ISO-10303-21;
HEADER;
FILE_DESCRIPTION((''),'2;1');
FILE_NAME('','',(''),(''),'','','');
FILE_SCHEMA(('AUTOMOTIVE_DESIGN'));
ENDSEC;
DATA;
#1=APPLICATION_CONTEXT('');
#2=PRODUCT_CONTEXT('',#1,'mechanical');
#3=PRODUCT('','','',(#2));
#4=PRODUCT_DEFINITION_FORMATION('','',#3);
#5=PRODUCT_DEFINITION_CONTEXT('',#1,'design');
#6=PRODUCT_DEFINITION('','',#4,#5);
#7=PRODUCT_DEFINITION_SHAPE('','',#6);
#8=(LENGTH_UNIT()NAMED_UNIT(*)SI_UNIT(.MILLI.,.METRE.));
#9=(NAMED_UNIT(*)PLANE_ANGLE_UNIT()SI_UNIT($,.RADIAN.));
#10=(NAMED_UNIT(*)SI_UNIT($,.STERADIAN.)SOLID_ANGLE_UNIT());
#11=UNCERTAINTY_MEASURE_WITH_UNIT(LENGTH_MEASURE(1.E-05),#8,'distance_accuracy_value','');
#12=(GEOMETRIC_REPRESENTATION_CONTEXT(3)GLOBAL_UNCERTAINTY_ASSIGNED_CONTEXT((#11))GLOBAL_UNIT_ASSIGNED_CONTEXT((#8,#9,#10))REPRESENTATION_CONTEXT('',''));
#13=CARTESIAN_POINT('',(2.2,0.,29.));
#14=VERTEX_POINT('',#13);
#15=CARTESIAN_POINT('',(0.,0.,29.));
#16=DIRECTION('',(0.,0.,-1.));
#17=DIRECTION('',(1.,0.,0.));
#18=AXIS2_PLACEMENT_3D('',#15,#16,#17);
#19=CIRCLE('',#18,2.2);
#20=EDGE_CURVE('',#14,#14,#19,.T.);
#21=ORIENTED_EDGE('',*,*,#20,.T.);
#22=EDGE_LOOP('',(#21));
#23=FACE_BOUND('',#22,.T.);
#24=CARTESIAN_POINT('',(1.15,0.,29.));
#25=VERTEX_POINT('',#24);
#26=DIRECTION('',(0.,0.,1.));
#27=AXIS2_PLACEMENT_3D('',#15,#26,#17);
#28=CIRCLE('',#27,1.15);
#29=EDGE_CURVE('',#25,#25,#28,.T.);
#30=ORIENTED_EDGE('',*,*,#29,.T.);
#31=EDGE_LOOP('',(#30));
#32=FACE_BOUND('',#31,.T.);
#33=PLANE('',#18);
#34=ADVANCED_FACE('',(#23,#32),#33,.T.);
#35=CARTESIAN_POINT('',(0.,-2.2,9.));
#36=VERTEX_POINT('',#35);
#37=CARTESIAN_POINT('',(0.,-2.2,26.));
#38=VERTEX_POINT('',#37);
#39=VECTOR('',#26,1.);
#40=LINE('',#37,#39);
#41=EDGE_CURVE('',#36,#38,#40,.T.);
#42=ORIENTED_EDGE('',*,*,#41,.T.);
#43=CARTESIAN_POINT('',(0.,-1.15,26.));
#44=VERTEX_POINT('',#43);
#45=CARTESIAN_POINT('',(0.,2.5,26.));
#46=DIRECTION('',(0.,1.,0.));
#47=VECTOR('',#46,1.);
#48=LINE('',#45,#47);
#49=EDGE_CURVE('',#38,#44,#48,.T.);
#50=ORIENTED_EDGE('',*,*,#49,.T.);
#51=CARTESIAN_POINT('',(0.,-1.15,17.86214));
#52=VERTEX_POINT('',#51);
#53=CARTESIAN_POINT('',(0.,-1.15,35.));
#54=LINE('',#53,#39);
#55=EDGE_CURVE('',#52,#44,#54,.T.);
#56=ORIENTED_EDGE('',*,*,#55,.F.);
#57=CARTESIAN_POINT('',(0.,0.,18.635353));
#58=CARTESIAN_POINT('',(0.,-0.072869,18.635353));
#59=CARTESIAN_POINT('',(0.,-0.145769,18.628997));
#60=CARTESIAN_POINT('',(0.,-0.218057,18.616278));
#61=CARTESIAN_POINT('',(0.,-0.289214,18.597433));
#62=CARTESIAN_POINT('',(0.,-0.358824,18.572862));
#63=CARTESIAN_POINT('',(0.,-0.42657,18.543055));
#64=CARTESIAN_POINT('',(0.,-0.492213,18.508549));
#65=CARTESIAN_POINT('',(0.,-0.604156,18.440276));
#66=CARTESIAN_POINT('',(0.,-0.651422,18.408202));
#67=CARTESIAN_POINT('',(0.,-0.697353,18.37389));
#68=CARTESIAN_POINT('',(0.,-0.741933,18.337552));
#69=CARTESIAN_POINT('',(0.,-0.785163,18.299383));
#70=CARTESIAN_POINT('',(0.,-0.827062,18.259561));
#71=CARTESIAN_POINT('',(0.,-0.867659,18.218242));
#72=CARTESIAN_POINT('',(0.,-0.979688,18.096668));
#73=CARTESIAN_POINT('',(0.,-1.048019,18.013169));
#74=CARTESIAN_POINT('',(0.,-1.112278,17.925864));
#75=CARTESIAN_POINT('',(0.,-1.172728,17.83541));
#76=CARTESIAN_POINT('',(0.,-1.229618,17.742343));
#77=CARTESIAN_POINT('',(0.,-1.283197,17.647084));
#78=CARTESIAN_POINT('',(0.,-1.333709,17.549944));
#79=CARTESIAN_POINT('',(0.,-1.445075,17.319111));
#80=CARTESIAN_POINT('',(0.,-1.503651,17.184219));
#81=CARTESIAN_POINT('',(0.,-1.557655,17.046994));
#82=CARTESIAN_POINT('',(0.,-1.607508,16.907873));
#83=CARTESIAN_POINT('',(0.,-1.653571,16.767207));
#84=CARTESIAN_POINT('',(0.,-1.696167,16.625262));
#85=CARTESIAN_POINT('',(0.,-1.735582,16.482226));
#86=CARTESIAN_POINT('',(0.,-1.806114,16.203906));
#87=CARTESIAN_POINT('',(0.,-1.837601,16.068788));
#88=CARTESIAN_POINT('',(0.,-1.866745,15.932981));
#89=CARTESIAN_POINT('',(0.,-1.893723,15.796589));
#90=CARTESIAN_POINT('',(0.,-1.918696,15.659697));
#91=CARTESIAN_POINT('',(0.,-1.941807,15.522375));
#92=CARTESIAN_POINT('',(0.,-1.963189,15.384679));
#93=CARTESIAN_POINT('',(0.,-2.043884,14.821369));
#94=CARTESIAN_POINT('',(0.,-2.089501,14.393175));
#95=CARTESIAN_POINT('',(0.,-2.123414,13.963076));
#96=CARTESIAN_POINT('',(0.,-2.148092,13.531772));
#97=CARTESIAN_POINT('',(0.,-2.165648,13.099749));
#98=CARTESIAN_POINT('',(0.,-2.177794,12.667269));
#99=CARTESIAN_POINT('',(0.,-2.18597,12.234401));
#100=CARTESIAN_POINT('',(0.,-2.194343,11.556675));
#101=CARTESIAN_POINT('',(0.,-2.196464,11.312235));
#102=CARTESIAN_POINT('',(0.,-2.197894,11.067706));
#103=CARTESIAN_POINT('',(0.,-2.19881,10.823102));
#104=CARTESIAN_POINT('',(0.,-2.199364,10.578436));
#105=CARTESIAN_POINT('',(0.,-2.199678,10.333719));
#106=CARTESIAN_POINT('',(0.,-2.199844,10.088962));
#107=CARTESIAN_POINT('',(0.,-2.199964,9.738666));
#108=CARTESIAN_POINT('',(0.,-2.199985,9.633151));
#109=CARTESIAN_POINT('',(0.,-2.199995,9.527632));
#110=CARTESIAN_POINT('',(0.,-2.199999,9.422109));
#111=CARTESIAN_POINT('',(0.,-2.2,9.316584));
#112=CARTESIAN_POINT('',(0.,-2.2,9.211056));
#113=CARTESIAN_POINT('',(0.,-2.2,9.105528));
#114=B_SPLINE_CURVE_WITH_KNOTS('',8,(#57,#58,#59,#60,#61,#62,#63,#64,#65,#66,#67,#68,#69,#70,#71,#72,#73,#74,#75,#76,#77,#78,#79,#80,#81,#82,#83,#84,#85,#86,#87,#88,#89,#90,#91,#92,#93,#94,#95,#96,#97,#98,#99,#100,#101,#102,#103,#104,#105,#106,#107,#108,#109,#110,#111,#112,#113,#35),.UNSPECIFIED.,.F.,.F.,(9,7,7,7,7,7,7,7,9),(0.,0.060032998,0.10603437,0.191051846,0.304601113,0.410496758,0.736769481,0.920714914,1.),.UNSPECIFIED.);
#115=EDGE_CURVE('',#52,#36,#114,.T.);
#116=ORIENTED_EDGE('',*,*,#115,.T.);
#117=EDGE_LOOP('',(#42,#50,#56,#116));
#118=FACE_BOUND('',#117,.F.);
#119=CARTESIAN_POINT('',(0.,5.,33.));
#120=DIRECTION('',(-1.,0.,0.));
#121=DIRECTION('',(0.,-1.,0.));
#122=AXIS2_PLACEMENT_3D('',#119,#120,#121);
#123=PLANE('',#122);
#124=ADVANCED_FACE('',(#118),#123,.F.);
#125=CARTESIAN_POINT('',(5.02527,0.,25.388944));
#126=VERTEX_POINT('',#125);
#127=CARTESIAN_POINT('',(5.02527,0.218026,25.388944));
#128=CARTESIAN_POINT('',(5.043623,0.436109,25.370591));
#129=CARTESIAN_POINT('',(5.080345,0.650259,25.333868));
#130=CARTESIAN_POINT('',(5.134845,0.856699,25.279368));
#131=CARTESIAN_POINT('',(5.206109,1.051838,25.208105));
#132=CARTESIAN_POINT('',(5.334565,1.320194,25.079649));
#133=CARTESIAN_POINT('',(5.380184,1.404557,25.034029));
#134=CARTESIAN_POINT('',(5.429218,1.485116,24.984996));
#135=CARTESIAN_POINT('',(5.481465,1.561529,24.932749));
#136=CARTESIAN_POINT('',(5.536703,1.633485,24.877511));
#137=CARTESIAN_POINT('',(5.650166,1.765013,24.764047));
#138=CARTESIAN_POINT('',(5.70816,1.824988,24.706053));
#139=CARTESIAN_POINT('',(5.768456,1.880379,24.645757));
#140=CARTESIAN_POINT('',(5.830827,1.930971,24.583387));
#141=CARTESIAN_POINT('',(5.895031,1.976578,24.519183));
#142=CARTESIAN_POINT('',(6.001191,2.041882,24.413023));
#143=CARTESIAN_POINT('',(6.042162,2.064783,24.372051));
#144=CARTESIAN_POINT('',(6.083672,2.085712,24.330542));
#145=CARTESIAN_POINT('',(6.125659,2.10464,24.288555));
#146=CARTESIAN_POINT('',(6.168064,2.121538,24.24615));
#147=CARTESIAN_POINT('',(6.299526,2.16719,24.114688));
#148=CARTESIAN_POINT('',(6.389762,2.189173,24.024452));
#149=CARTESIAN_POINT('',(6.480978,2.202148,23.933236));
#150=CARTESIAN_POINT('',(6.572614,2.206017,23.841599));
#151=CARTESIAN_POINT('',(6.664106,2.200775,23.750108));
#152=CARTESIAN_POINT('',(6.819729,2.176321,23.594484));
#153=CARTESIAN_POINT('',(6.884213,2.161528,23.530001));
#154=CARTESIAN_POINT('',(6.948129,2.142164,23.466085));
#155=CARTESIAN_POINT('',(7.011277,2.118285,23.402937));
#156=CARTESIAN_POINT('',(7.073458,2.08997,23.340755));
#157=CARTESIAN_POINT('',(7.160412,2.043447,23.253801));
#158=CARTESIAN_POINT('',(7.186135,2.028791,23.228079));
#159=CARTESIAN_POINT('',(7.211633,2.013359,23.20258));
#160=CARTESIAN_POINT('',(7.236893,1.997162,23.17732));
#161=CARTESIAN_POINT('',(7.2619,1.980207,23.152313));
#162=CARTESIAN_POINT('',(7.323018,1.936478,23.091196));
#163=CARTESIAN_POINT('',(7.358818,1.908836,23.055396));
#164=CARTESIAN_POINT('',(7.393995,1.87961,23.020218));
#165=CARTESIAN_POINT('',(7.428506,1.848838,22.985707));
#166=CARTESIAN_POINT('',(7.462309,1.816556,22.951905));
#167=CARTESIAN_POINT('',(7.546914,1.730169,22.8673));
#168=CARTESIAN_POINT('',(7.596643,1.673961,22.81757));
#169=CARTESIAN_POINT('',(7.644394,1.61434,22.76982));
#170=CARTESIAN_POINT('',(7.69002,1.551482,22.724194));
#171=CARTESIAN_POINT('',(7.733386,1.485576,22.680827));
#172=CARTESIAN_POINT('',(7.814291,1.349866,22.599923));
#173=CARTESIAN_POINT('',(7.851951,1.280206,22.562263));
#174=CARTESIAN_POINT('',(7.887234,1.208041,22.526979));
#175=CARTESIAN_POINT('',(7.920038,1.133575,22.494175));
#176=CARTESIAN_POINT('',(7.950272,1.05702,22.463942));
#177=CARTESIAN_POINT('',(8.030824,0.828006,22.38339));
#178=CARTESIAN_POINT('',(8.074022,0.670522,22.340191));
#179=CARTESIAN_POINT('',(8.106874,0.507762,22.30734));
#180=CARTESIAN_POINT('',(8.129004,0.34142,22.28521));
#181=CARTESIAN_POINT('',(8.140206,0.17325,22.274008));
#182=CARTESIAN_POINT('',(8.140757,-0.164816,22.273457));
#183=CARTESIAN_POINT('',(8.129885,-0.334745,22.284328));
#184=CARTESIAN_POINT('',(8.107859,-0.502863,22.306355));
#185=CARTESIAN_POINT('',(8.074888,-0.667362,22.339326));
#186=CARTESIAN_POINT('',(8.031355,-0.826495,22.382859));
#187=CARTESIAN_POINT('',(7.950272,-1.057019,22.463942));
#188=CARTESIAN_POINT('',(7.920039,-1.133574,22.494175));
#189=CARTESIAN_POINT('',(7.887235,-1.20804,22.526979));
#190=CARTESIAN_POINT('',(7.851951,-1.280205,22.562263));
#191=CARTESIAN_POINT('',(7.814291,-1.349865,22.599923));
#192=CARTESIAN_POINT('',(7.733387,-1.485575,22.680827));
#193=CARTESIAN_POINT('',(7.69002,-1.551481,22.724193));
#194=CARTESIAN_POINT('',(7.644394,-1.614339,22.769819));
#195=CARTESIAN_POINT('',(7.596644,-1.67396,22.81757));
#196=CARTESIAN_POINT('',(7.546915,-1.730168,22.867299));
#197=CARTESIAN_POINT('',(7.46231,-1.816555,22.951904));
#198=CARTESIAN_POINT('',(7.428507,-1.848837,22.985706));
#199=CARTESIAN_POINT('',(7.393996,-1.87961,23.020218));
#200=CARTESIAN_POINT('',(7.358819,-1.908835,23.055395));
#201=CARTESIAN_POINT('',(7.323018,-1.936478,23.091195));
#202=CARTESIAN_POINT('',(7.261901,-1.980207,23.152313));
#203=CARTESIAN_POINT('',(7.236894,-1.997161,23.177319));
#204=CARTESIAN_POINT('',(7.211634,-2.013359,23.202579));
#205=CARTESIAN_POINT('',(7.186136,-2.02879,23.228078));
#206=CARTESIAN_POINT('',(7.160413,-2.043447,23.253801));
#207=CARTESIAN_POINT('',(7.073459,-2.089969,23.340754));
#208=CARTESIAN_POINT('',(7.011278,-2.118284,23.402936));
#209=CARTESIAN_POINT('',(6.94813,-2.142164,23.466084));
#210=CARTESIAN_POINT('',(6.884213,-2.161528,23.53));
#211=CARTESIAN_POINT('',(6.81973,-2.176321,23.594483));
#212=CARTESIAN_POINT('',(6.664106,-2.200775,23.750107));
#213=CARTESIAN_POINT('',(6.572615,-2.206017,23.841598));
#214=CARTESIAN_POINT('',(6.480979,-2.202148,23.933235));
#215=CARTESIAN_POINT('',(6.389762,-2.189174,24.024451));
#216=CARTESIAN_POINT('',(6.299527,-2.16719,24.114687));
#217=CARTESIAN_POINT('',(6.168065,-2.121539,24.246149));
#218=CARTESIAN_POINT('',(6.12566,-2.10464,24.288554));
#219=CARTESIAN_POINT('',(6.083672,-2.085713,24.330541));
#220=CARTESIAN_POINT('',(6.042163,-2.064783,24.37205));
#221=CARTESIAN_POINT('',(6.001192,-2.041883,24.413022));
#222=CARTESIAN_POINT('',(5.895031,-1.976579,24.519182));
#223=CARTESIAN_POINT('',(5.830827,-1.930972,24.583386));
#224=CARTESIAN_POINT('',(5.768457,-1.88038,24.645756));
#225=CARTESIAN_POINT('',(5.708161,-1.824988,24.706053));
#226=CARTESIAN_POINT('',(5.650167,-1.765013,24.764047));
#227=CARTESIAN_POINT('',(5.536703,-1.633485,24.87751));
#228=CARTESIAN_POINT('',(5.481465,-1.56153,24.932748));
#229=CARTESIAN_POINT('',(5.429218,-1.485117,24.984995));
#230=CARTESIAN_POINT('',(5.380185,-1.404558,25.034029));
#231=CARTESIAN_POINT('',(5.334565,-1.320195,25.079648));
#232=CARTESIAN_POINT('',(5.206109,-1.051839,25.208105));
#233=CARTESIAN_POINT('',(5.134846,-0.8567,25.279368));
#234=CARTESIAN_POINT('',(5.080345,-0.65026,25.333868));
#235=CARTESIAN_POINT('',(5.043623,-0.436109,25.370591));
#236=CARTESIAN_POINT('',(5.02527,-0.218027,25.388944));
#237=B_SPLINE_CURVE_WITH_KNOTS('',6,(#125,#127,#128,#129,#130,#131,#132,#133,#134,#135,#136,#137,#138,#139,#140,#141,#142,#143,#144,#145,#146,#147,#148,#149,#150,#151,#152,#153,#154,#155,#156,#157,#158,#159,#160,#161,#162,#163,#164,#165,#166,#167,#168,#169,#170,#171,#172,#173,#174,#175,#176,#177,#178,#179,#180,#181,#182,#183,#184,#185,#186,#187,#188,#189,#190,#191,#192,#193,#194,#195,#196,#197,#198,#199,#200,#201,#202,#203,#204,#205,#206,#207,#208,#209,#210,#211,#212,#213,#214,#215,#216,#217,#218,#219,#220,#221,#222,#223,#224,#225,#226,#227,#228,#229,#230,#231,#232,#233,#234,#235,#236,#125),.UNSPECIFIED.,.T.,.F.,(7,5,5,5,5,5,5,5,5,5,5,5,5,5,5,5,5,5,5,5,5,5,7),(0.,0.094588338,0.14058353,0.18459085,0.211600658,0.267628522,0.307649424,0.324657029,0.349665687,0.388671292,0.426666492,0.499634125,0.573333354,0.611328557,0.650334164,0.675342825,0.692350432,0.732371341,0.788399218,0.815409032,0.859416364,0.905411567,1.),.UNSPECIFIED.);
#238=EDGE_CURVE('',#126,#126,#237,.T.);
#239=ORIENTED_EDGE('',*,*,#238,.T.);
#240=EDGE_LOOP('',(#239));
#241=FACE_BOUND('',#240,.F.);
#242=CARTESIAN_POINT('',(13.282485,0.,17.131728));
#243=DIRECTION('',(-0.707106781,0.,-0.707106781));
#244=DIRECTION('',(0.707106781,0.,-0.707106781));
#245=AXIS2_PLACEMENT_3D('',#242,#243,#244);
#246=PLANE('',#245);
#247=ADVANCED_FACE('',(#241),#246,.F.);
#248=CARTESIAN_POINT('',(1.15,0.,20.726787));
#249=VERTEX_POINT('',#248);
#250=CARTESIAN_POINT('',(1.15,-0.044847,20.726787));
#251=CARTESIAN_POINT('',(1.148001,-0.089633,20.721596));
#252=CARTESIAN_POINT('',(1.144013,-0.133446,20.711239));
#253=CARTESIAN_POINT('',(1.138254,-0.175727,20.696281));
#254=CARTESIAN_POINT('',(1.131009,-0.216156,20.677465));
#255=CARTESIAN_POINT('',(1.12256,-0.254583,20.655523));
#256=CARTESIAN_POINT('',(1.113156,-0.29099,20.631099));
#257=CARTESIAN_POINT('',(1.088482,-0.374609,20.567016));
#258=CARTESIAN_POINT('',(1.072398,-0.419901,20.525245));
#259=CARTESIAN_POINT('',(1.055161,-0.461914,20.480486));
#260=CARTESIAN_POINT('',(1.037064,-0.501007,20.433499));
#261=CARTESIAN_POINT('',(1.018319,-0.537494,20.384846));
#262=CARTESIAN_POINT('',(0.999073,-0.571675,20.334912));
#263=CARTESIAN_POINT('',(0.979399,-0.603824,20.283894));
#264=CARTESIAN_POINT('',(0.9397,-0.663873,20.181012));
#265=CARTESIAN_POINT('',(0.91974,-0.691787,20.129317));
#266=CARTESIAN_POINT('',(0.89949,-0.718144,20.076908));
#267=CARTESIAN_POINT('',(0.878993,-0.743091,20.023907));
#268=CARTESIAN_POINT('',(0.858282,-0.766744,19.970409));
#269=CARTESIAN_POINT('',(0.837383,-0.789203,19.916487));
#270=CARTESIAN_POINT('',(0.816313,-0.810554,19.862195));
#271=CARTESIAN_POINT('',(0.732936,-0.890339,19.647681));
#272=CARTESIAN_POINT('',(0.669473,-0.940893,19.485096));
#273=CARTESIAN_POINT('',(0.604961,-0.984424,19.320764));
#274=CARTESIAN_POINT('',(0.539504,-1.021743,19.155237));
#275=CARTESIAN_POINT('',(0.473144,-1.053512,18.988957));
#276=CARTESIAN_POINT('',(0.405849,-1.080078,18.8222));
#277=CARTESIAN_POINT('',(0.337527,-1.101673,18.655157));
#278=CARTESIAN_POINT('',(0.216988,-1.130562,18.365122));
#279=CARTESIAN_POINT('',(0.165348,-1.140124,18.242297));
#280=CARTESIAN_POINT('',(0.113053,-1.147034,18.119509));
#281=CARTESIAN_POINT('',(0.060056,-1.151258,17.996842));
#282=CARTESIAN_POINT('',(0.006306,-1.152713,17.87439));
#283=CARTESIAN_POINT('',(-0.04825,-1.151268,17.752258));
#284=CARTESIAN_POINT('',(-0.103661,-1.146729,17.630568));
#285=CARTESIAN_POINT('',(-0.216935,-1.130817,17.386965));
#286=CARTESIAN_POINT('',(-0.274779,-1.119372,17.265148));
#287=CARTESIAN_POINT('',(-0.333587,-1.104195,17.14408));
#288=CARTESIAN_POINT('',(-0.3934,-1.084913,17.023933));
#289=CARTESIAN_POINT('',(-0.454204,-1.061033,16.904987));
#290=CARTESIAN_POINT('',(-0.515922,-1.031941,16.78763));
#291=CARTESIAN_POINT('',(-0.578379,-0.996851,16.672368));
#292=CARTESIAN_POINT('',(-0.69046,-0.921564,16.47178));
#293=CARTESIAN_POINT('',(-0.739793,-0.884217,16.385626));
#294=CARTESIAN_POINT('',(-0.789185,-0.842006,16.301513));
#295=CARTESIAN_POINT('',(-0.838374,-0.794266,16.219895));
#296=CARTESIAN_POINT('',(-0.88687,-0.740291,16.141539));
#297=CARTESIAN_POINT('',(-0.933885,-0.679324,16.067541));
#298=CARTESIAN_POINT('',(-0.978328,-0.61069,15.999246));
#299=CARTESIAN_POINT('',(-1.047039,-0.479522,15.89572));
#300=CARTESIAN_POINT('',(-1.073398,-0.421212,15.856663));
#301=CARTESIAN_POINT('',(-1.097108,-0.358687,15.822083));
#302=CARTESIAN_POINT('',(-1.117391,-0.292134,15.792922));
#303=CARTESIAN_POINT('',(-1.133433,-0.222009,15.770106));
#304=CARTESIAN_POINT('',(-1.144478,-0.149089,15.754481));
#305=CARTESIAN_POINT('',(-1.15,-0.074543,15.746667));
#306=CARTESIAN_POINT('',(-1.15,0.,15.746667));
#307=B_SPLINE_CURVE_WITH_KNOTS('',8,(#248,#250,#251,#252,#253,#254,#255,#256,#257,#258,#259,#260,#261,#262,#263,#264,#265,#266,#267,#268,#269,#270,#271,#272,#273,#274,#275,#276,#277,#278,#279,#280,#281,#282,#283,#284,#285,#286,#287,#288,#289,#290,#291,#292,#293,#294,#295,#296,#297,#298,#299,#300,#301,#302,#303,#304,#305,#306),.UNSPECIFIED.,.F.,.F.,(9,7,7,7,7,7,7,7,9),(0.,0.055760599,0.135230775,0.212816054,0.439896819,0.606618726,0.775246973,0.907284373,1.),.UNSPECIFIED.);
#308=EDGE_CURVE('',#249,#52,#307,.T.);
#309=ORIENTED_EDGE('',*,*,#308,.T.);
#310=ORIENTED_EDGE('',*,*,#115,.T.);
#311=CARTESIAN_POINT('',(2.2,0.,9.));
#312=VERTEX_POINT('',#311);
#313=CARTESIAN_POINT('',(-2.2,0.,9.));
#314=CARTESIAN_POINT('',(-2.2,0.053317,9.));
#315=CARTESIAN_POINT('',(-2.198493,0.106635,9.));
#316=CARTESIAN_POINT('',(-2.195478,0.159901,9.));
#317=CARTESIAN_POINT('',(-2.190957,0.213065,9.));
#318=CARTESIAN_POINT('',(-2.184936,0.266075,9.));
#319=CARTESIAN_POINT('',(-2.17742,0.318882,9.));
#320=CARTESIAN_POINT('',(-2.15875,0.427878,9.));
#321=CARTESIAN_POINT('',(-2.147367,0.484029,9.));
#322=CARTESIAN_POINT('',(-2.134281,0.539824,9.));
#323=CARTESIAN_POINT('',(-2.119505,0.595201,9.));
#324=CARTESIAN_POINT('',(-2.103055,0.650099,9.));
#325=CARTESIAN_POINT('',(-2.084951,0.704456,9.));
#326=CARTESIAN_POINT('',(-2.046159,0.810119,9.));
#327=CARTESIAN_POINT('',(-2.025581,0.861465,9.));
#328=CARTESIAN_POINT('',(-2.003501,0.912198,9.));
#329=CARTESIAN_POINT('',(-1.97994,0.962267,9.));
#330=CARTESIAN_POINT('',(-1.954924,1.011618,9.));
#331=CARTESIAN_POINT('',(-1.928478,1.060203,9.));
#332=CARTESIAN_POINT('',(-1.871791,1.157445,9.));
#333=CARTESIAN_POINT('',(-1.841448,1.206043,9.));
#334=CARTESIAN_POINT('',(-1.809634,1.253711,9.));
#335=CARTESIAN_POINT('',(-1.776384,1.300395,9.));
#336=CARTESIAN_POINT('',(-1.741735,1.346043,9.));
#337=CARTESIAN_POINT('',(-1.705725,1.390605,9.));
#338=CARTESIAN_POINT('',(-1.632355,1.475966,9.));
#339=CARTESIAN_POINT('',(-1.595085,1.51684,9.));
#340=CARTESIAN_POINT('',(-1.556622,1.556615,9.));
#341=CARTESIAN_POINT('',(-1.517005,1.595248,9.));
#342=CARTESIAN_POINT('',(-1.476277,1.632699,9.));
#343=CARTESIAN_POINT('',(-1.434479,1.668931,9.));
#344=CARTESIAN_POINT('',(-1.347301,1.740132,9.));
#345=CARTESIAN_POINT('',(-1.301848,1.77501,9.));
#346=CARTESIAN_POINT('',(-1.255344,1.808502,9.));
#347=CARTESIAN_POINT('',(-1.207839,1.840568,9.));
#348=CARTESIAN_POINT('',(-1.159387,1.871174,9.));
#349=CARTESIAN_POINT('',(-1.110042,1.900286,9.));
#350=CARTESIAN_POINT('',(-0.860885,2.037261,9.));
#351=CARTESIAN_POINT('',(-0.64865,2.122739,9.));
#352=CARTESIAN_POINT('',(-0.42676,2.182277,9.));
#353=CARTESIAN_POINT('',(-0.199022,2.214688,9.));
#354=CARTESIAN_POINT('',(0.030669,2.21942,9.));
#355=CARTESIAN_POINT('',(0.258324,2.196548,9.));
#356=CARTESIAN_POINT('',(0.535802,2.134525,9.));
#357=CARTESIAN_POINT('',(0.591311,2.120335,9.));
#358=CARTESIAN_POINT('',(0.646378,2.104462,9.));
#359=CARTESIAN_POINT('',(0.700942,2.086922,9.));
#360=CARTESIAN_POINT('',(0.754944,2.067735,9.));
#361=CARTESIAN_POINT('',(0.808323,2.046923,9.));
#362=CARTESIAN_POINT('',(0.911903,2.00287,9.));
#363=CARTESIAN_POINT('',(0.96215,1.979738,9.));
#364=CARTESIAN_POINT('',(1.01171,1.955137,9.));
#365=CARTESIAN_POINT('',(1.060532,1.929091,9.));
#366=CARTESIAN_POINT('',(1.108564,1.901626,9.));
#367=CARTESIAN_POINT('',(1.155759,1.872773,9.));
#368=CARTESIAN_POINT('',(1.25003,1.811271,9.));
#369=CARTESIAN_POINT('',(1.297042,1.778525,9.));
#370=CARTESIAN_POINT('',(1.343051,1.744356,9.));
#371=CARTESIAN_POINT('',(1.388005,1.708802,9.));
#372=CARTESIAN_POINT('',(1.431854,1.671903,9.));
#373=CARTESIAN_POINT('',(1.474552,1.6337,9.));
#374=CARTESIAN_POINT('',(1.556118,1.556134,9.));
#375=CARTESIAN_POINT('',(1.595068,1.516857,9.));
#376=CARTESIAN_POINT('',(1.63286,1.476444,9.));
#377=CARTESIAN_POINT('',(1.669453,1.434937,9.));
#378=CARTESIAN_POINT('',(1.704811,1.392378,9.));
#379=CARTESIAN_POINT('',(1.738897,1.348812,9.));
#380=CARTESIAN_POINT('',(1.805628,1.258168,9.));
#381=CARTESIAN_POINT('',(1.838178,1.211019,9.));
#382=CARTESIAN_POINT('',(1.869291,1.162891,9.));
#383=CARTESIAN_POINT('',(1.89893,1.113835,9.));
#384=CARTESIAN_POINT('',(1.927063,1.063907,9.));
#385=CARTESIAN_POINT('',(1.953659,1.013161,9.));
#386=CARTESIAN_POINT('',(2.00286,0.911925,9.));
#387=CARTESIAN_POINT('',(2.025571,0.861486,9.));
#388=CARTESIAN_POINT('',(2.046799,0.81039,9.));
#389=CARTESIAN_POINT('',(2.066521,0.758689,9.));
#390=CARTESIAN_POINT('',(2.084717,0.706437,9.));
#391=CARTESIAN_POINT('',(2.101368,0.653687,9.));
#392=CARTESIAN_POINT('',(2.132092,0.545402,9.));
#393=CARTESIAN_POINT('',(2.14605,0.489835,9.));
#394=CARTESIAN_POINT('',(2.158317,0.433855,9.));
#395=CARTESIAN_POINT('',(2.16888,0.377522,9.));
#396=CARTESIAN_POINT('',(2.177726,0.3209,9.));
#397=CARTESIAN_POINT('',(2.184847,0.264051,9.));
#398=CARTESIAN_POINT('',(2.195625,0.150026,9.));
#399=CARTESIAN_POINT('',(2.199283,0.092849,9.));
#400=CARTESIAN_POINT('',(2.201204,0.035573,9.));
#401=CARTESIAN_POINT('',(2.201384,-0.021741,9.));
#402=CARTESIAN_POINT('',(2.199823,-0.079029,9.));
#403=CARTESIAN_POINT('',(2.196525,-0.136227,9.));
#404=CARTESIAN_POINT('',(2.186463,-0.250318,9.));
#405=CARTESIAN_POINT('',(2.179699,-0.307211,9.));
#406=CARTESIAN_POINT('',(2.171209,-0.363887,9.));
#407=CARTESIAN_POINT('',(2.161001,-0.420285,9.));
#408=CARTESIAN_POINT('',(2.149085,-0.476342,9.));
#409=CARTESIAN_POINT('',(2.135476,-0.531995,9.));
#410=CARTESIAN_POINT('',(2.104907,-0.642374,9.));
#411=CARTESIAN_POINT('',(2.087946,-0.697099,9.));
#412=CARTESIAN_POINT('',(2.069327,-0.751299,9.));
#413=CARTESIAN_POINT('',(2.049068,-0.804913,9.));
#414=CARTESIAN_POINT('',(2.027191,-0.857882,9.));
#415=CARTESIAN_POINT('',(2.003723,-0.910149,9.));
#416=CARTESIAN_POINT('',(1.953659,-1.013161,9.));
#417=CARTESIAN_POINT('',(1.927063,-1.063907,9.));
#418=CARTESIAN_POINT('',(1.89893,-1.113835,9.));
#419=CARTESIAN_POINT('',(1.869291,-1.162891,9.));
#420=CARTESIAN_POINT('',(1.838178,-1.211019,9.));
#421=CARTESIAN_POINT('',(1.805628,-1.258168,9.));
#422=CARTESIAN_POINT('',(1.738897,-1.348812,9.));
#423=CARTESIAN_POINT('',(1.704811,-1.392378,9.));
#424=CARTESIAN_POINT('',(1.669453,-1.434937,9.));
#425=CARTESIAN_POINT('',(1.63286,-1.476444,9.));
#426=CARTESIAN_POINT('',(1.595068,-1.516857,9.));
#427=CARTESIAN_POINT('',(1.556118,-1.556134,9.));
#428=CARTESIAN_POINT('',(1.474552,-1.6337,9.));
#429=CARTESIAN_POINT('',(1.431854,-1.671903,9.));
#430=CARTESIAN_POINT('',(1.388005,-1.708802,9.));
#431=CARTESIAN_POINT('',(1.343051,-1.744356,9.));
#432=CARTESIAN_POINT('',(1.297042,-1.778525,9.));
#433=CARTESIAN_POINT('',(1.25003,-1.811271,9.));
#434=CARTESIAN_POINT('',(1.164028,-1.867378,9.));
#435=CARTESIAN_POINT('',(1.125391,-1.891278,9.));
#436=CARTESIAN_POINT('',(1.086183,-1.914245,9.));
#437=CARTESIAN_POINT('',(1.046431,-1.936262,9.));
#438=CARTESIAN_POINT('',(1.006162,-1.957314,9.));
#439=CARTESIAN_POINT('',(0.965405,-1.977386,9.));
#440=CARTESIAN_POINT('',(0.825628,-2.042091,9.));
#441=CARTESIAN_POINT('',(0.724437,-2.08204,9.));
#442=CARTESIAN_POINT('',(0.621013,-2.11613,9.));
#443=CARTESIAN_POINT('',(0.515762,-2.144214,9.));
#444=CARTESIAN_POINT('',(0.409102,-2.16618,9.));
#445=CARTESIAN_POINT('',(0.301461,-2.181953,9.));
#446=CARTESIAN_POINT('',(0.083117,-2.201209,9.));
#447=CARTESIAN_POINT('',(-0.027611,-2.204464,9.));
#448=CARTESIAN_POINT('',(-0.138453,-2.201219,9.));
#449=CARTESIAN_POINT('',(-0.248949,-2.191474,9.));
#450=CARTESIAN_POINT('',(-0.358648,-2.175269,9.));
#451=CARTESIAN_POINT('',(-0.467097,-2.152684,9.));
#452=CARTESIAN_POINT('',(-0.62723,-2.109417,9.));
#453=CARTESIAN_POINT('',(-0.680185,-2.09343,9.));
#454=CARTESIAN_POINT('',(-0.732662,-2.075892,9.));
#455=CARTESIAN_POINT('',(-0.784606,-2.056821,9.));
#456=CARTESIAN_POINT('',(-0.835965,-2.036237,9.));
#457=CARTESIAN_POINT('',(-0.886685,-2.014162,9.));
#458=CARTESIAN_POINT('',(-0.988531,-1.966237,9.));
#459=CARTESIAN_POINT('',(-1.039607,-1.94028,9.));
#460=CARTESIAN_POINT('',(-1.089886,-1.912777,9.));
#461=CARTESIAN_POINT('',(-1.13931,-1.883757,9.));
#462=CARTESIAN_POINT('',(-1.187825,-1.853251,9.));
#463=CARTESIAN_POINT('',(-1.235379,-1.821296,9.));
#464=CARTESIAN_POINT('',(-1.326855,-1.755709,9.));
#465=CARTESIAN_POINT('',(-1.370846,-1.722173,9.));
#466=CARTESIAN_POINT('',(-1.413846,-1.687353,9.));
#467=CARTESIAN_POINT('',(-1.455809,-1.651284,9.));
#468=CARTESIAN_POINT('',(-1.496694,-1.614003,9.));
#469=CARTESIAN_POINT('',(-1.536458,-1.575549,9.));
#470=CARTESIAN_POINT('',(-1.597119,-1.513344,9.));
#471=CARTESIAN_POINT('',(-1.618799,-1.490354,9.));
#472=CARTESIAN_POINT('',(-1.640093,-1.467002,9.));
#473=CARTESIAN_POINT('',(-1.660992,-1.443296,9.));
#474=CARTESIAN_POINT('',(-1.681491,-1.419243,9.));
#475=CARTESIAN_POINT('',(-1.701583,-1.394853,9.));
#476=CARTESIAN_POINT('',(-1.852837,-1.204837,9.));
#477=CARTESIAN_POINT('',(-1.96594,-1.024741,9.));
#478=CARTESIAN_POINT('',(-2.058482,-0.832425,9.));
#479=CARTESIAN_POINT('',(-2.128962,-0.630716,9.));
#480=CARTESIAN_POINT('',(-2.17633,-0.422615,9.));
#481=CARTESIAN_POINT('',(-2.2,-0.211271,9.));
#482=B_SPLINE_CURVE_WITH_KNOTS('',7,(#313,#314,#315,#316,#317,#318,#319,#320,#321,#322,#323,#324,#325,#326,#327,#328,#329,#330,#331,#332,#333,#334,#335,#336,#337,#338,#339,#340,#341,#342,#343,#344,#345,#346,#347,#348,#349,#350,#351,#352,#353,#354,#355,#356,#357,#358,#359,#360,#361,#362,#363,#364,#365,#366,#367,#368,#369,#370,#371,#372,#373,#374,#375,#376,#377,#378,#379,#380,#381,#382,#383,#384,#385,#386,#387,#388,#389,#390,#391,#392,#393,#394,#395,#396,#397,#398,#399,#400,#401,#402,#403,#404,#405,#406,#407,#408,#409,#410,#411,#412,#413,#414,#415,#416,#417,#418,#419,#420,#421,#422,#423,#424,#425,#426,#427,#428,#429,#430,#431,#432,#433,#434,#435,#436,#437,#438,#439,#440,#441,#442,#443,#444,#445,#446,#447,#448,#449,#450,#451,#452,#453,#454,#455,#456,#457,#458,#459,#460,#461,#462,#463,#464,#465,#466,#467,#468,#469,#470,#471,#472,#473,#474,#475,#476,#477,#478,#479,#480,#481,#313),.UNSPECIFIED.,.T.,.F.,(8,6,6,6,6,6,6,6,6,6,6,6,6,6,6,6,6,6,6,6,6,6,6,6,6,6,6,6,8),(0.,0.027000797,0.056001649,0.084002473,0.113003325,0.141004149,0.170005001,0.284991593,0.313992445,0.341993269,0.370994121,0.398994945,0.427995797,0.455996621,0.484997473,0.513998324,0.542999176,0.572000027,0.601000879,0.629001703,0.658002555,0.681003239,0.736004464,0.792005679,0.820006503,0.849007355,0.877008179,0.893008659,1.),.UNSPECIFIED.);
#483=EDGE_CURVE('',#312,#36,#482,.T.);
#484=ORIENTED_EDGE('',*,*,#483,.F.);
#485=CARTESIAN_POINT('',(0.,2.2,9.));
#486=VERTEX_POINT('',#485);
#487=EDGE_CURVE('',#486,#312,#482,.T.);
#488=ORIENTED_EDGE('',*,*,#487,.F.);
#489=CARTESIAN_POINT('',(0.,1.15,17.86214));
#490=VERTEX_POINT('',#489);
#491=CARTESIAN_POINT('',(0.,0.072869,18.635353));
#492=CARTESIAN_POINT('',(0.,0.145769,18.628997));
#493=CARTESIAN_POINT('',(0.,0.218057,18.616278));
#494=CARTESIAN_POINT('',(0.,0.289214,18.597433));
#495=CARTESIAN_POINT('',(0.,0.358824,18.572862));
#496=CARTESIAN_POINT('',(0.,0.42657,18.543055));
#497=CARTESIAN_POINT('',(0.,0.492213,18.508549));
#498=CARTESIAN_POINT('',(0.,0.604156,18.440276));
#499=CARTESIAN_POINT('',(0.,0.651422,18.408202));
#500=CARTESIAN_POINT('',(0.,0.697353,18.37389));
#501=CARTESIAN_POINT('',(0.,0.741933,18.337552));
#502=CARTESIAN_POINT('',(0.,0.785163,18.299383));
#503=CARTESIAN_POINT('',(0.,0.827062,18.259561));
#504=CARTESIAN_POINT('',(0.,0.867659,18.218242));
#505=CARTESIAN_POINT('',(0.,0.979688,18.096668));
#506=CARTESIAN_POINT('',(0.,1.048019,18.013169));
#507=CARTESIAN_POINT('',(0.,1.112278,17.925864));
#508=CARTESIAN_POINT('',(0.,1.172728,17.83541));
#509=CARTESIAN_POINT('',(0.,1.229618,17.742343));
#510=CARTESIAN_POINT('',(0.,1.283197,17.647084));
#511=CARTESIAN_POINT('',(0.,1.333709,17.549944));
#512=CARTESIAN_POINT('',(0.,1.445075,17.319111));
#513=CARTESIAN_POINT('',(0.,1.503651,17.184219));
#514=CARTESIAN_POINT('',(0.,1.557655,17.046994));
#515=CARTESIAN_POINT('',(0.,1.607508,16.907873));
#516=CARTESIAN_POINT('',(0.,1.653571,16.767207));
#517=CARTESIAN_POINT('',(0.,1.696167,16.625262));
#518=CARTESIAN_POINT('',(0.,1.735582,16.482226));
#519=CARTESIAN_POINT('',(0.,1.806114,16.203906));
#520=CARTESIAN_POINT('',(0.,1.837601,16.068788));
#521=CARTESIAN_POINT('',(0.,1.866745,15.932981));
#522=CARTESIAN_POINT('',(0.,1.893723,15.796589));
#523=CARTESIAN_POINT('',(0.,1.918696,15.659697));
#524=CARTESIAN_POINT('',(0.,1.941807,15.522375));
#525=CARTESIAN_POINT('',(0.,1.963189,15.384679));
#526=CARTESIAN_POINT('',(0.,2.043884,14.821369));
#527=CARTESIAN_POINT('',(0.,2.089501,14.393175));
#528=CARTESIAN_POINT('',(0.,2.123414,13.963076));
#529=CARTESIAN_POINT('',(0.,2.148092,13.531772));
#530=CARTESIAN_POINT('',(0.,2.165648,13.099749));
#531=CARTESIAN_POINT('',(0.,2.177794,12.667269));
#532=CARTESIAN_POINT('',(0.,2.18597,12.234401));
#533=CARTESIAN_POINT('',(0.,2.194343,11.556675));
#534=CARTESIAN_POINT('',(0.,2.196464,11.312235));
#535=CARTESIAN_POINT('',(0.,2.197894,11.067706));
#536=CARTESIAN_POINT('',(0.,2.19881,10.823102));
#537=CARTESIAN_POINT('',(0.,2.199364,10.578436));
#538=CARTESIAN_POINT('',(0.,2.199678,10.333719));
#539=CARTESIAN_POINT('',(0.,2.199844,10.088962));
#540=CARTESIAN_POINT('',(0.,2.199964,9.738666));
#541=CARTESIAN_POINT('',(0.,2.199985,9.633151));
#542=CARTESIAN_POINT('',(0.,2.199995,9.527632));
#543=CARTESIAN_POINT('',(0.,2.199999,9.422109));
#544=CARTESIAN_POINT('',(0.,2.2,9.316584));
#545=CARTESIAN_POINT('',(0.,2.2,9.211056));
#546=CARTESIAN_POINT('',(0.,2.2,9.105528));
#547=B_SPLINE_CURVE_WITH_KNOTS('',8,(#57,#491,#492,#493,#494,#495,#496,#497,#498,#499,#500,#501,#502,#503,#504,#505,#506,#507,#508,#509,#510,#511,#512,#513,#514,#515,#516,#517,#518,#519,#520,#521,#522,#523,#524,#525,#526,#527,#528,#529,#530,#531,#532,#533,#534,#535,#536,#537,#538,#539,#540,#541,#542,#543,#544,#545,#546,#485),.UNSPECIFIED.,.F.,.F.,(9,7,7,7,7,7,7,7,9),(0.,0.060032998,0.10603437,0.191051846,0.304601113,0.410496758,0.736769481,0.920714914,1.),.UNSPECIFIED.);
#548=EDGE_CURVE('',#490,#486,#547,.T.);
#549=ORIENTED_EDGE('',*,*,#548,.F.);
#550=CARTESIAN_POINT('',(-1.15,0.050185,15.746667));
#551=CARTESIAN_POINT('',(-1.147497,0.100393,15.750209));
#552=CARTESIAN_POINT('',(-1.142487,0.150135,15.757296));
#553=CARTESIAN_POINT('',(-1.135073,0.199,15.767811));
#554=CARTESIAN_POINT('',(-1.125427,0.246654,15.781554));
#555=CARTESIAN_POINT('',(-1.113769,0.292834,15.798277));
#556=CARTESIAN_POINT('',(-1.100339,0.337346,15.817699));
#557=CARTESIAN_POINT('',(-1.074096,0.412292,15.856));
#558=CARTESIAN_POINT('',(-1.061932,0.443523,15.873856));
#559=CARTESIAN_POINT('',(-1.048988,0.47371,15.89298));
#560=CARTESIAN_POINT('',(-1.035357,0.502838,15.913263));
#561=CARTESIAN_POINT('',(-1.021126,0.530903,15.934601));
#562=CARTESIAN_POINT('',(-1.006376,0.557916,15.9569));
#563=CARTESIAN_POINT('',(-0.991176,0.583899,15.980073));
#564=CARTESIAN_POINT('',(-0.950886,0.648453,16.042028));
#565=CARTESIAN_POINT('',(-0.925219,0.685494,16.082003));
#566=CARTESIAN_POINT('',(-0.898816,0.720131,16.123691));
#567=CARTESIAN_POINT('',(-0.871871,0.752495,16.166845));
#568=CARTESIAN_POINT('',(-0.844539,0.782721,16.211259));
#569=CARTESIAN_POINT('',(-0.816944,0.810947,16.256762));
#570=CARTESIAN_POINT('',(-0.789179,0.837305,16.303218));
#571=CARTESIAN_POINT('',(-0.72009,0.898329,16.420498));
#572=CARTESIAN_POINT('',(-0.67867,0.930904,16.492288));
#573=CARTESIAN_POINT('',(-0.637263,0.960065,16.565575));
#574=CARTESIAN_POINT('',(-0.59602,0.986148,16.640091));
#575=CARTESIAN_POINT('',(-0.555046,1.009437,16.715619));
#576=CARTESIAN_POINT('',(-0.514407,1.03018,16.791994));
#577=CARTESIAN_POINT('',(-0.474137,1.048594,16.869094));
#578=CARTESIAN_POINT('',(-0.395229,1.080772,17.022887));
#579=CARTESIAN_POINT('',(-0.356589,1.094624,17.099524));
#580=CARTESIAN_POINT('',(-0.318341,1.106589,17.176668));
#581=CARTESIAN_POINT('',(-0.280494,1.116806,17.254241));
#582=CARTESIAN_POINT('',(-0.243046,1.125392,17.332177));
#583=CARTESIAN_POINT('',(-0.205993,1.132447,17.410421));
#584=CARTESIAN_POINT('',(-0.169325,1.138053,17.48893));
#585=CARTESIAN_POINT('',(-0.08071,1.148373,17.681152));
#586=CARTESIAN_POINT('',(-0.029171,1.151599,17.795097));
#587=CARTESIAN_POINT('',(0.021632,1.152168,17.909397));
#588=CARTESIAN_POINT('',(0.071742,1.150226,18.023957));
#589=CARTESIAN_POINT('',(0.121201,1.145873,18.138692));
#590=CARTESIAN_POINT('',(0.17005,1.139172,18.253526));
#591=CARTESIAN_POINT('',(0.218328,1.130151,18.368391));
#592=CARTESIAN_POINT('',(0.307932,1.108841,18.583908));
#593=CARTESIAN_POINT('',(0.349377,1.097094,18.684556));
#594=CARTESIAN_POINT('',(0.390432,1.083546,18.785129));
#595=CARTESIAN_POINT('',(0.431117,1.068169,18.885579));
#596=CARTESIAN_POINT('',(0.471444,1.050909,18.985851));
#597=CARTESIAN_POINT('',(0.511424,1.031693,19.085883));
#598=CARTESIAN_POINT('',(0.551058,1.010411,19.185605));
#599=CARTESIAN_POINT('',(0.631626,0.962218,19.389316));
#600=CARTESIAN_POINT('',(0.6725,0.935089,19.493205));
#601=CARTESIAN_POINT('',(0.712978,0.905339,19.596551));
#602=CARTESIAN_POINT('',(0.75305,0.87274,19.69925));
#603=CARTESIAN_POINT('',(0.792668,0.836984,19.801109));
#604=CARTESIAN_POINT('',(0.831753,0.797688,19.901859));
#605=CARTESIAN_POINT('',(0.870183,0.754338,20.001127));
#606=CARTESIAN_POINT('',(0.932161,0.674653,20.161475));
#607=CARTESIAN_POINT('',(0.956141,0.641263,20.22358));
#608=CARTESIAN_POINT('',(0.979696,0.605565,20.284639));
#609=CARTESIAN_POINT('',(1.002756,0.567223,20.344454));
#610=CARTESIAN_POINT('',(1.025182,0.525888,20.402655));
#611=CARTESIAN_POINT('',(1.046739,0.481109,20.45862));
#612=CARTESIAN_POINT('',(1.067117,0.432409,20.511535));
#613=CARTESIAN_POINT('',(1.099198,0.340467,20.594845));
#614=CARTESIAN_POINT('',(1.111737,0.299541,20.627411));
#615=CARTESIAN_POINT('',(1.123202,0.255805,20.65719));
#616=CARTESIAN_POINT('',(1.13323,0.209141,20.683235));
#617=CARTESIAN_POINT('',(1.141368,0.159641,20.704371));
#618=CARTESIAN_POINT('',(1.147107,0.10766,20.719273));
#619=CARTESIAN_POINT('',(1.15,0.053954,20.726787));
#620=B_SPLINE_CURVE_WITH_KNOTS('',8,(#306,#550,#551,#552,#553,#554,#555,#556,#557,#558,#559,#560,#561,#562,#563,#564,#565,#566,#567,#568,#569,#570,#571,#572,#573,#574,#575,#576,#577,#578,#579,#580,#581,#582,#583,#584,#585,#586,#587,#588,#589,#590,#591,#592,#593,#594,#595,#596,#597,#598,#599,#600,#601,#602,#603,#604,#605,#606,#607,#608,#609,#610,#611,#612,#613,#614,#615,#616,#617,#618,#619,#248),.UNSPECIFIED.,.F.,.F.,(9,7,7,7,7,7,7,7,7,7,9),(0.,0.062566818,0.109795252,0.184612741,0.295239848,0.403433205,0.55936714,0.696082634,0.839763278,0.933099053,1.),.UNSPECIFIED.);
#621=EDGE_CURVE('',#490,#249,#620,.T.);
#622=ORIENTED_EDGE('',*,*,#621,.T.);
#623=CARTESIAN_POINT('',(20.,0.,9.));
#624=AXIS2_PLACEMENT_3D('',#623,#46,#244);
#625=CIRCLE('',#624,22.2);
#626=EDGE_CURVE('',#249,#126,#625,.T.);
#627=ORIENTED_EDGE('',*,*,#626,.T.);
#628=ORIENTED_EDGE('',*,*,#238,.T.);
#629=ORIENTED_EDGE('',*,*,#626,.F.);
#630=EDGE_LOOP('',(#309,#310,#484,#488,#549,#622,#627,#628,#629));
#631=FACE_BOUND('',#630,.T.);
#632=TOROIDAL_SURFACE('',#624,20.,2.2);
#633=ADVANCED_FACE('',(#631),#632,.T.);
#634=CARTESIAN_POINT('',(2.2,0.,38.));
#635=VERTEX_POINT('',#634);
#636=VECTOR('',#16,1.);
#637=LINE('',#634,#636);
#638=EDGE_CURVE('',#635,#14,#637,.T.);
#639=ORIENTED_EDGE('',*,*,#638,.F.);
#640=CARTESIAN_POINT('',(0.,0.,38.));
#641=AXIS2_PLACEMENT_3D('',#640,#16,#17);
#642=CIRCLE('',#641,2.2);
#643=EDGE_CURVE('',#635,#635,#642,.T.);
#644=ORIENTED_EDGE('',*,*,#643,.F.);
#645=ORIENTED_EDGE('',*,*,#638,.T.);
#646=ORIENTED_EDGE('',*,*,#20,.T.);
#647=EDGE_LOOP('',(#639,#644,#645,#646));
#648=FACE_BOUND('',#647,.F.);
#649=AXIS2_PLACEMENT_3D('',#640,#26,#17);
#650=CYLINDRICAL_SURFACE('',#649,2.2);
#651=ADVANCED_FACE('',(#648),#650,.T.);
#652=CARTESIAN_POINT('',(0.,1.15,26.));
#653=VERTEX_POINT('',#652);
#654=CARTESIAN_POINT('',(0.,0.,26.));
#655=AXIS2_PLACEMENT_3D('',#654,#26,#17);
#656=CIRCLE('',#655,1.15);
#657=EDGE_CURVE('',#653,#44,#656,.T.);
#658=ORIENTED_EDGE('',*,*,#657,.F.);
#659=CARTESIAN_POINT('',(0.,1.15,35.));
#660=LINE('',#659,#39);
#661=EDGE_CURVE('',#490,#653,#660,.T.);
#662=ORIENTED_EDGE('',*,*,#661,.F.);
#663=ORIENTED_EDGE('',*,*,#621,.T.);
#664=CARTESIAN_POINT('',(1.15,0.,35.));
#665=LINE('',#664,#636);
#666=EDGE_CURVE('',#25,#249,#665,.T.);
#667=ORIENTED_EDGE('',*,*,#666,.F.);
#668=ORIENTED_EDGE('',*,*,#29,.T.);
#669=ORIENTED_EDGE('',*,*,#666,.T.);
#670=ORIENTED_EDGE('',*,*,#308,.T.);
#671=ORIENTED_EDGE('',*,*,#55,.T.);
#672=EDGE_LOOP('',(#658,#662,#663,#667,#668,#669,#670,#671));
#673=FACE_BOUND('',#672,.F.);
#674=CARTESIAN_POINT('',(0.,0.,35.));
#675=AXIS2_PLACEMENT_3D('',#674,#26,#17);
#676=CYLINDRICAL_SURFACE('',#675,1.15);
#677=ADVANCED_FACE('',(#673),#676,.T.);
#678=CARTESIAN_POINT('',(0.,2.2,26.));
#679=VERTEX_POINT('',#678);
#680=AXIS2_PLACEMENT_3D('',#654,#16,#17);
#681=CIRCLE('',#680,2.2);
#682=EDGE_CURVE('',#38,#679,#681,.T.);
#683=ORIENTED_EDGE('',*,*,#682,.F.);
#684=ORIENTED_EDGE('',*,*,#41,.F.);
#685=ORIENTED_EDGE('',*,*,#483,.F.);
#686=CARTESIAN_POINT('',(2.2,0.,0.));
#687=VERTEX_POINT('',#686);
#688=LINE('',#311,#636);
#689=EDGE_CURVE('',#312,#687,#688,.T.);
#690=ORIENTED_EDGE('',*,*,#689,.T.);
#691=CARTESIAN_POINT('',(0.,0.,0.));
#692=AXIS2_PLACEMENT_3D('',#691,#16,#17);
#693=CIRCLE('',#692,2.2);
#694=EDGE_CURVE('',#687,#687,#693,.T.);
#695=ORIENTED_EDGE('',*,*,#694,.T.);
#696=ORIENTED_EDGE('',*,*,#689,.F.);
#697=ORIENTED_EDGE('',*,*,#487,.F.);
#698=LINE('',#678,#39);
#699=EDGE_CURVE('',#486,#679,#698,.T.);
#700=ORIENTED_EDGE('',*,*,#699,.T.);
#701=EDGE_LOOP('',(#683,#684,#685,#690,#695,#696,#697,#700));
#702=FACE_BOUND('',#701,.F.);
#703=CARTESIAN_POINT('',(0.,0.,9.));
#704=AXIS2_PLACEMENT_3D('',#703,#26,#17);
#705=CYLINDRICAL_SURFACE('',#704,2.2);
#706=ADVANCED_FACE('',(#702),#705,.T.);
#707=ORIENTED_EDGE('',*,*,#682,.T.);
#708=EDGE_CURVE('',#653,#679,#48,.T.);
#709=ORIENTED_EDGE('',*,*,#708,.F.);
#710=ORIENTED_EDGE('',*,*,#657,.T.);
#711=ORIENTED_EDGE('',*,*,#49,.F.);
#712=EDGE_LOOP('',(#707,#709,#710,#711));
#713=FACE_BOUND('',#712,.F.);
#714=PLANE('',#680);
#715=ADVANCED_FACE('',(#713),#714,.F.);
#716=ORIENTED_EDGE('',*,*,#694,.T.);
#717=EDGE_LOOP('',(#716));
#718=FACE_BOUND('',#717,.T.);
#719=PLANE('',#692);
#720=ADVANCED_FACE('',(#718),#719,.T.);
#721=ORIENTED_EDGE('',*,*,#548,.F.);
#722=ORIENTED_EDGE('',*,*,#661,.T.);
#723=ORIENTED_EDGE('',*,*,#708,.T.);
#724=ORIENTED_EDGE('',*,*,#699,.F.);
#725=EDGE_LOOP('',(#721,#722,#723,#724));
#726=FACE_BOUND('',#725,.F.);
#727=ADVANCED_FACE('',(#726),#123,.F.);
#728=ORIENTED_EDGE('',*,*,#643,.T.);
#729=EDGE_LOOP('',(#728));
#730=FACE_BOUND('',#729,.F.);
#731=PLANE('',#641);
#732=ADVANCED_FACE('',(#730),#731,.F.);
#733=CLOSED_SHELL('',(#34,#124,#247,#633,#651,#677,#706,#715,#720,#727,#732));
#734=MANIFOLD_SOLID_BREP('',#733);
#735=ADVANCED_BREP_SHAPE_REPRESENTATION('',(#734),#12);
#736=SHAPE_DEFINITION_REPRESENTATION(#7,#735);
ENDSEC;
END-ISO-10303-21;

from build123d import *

# Parameters (mm, degrees)
BOX001027045134_W         = 10
BOX001027045134_H         = 10
BOX001027045134_DEPTH     = 32
CYLINDER192_R             = 2.2
CYLINDER192_DEPTH         = 17
CUT158_PLACEMENT_ANGLE    = 180
BOX001027045133_W         = 10
BOX001027045133_H         = 10
BOX001027045133_DEPTH     = 32
BOX001027045132_W         = 15
BOX001027045132_H         = 10
BOX001027045132_DEPTH     = 18
BOX001027045135_W         = 25
BOX001027045135_H         = 10
BOX001027045135_DEPTH     = 25
TORUS013_R                = 2.2
TORUS013_ROLL_ANGLE       = 90
COMMON091_PITCH_ANGLE     = -45
COMMON090_PLACEMENT_ANGLE = 180
CYLINDER191_R             = 2.2
CYLINDER191_DEPTH         = 9
CYLINDER193_R             = 2.2
CYLINDER193_DEPTH         = 9
CYLINDER190_R             = 1.15
CYLINDER190_DEPTH         = 32


with BuildPart() as cube187:
    # Box001027045134 → Box001027045134 (new body)
    with BuildSketch(Plane(origin=(0, -5, -22), x_dir=(1, 0, 0), z_dir=(0, 0, 1))):
        with Locations((5, 5)):
            Rectangle(BOX001027045134_W, BOX001027045134_H)
    extrude(amount=BOX001027045134_DEPTH)


with BuildPart() as cut158:
    # Cylinder192 → Cylinder192 (new body)
    with BuildSketch(Plane.XY.offset(-15)):
        Circle(CYLINDER192_R)
    extrude(amount=CYLINDER192_DEPTH)

    # Cut158: cut Cube187
    add(cube187.part, mode=Mode.SUBTRACT)


with BuildPart() as cut158_1:
    # Cut158 placement: moved
    add(cut158.part.moved(Location((0, 0, 6))).rotate(Axis((0, 0, 6), (1, 0, 0)), CUT158_PLACEMENT_ANGLE))


with BuildPart() as cube186:
    # Box001027045133 → Box001027045133 (new body)
    with BuildSketch(Plane(origin=(0, -5, -22), x_dir=(1, 0, 0), z_dir=(0, 0, 1))):
        with Locations((5, 5)):
            Rectangle(BOX001027045133_W, BOX001027045133_H)
    extrude(amount=BOX001027045133_DEPTH)


with BuildPart() as cube185:
    # Box001027045132 → Box001027045132 (new body)
    with BuildSketch(Plane(origin=(-5, -5, -18), x_dir=(1, 0, 0), z_dir=(0, 0, 1))):
        with Locations((7.5, 5)):
            Rectangle(BOX001027045132_W, BOX001027045132_H)
    extrude(amount=BOX001027045132_DEPTH)


with BuildPart() as cube188:
    # Box001027045135 → Box001027045135 (new body)
    with BuildSketch(Plane(origin=(-3, -5, -1), x_dir=(1, 0, 0), z_dir=(0, 0, 1))):
        with Locations((12.5, 5)):
            Rectangle(BOX001027045135_W, BOX001027045135_H)
    extrude(amount=BOX001027045135_DEPTH)


with BuildPart() as common090:
    # Torus013 → Torus013 (revolve)
    with BuildSketch(Plane.XZ):
        with Locations((20, 0)):
            Circle(TORUS013_R)
    revolve(axis=Axis((0, 0, 0), (0, 0, 1)))


with BuildPart() as common090_1:
    # Torus013 roll: moved
    add(common090.part.rotate(Axis((0, 0, 0), (1, 0, 0)), TORUS013_ROLL_ANGLE))


with BuildPart() as common090_2:
    # Torus013 placement: moved
    add(common090_1.part.moved(Location((20, 0, 0))))

    # Common091: intersect Cube188
    add(cube188.part, mode=Mode.INTERSECT)


with BuildPart() as common090_3:
    # Common091 pitch: moved
    add(common090_2.part.rotate(Axis((0, 0, 0), (0, 1, 0)), COMMON091_PITCH_ANGLE))


with BuildPart() as common090_4:
    # Common091 placement: moved
    add(common090_3.part.moved(Location((5.857864, 0, -14.142136))))

    # Common089: intersect Cube185
    add(cube185.part, mode=Mode.INTERSECT)

    # Common090: intersect Cube186
    add(cube186.part, mode=Mode.INTERSECT)


with BuildPart() as common090_5:
    # Common090 placement: moved
    add(common090_4.part.moved(Location((0, 0, 4))).rotate(Axis((0, 0, 4), (1, 0, 0)), COMMON090_PLACEMENT_ANGLE))


with BuildPart() as cylinder238:
    # Cylinder191 → Cylinder191 (new body)
    with BuildSketch(Plane(origin=(0, 0, 4), x_dir=(1, 0, 0), z_dir=(0, 0, -1))):
        Circle(CYLINDER191_R)
    extrude(amount=CYLINDER191_DEPTH)


with BuildPart() as cylinder240:
    # Cylinder193 → Cylinder193 (new body)
    with BuildSketch(Plane(origin=(0, 0, 33), x_dir=(1, 0, 0), z_dir=(0, 0, -1))):
        Circle(CYLINDER193_R)
    extrude(amount=CYLINDER193_DEPTH)


with BuildPart() as filament_path001:
    # Cylinder190 → Cylinder190 (new body)
    with BuildSketch(Plane(origin=(0, 0, 30), x_dir=(1, 0, 0), z_dir=(0, 0, -1))):
        Circle(CYLINDER190_R)
    extrude(amount=CYLINDER190_DEPTH)

    # Fusion112082: union Cut158, Common090, Cylinder238, Cylinder240
    add(cut158_1.part)
    add(common090_5.part)
    add(cylinder238.part)
    add(cylinder240.part)


with BuildPart() as filament_path001_1:
    # Fusion112082 placement: moved
    add(filament_path001.part.moved(Location((0, 0, 5))))


solid = filament_path001_1.part
